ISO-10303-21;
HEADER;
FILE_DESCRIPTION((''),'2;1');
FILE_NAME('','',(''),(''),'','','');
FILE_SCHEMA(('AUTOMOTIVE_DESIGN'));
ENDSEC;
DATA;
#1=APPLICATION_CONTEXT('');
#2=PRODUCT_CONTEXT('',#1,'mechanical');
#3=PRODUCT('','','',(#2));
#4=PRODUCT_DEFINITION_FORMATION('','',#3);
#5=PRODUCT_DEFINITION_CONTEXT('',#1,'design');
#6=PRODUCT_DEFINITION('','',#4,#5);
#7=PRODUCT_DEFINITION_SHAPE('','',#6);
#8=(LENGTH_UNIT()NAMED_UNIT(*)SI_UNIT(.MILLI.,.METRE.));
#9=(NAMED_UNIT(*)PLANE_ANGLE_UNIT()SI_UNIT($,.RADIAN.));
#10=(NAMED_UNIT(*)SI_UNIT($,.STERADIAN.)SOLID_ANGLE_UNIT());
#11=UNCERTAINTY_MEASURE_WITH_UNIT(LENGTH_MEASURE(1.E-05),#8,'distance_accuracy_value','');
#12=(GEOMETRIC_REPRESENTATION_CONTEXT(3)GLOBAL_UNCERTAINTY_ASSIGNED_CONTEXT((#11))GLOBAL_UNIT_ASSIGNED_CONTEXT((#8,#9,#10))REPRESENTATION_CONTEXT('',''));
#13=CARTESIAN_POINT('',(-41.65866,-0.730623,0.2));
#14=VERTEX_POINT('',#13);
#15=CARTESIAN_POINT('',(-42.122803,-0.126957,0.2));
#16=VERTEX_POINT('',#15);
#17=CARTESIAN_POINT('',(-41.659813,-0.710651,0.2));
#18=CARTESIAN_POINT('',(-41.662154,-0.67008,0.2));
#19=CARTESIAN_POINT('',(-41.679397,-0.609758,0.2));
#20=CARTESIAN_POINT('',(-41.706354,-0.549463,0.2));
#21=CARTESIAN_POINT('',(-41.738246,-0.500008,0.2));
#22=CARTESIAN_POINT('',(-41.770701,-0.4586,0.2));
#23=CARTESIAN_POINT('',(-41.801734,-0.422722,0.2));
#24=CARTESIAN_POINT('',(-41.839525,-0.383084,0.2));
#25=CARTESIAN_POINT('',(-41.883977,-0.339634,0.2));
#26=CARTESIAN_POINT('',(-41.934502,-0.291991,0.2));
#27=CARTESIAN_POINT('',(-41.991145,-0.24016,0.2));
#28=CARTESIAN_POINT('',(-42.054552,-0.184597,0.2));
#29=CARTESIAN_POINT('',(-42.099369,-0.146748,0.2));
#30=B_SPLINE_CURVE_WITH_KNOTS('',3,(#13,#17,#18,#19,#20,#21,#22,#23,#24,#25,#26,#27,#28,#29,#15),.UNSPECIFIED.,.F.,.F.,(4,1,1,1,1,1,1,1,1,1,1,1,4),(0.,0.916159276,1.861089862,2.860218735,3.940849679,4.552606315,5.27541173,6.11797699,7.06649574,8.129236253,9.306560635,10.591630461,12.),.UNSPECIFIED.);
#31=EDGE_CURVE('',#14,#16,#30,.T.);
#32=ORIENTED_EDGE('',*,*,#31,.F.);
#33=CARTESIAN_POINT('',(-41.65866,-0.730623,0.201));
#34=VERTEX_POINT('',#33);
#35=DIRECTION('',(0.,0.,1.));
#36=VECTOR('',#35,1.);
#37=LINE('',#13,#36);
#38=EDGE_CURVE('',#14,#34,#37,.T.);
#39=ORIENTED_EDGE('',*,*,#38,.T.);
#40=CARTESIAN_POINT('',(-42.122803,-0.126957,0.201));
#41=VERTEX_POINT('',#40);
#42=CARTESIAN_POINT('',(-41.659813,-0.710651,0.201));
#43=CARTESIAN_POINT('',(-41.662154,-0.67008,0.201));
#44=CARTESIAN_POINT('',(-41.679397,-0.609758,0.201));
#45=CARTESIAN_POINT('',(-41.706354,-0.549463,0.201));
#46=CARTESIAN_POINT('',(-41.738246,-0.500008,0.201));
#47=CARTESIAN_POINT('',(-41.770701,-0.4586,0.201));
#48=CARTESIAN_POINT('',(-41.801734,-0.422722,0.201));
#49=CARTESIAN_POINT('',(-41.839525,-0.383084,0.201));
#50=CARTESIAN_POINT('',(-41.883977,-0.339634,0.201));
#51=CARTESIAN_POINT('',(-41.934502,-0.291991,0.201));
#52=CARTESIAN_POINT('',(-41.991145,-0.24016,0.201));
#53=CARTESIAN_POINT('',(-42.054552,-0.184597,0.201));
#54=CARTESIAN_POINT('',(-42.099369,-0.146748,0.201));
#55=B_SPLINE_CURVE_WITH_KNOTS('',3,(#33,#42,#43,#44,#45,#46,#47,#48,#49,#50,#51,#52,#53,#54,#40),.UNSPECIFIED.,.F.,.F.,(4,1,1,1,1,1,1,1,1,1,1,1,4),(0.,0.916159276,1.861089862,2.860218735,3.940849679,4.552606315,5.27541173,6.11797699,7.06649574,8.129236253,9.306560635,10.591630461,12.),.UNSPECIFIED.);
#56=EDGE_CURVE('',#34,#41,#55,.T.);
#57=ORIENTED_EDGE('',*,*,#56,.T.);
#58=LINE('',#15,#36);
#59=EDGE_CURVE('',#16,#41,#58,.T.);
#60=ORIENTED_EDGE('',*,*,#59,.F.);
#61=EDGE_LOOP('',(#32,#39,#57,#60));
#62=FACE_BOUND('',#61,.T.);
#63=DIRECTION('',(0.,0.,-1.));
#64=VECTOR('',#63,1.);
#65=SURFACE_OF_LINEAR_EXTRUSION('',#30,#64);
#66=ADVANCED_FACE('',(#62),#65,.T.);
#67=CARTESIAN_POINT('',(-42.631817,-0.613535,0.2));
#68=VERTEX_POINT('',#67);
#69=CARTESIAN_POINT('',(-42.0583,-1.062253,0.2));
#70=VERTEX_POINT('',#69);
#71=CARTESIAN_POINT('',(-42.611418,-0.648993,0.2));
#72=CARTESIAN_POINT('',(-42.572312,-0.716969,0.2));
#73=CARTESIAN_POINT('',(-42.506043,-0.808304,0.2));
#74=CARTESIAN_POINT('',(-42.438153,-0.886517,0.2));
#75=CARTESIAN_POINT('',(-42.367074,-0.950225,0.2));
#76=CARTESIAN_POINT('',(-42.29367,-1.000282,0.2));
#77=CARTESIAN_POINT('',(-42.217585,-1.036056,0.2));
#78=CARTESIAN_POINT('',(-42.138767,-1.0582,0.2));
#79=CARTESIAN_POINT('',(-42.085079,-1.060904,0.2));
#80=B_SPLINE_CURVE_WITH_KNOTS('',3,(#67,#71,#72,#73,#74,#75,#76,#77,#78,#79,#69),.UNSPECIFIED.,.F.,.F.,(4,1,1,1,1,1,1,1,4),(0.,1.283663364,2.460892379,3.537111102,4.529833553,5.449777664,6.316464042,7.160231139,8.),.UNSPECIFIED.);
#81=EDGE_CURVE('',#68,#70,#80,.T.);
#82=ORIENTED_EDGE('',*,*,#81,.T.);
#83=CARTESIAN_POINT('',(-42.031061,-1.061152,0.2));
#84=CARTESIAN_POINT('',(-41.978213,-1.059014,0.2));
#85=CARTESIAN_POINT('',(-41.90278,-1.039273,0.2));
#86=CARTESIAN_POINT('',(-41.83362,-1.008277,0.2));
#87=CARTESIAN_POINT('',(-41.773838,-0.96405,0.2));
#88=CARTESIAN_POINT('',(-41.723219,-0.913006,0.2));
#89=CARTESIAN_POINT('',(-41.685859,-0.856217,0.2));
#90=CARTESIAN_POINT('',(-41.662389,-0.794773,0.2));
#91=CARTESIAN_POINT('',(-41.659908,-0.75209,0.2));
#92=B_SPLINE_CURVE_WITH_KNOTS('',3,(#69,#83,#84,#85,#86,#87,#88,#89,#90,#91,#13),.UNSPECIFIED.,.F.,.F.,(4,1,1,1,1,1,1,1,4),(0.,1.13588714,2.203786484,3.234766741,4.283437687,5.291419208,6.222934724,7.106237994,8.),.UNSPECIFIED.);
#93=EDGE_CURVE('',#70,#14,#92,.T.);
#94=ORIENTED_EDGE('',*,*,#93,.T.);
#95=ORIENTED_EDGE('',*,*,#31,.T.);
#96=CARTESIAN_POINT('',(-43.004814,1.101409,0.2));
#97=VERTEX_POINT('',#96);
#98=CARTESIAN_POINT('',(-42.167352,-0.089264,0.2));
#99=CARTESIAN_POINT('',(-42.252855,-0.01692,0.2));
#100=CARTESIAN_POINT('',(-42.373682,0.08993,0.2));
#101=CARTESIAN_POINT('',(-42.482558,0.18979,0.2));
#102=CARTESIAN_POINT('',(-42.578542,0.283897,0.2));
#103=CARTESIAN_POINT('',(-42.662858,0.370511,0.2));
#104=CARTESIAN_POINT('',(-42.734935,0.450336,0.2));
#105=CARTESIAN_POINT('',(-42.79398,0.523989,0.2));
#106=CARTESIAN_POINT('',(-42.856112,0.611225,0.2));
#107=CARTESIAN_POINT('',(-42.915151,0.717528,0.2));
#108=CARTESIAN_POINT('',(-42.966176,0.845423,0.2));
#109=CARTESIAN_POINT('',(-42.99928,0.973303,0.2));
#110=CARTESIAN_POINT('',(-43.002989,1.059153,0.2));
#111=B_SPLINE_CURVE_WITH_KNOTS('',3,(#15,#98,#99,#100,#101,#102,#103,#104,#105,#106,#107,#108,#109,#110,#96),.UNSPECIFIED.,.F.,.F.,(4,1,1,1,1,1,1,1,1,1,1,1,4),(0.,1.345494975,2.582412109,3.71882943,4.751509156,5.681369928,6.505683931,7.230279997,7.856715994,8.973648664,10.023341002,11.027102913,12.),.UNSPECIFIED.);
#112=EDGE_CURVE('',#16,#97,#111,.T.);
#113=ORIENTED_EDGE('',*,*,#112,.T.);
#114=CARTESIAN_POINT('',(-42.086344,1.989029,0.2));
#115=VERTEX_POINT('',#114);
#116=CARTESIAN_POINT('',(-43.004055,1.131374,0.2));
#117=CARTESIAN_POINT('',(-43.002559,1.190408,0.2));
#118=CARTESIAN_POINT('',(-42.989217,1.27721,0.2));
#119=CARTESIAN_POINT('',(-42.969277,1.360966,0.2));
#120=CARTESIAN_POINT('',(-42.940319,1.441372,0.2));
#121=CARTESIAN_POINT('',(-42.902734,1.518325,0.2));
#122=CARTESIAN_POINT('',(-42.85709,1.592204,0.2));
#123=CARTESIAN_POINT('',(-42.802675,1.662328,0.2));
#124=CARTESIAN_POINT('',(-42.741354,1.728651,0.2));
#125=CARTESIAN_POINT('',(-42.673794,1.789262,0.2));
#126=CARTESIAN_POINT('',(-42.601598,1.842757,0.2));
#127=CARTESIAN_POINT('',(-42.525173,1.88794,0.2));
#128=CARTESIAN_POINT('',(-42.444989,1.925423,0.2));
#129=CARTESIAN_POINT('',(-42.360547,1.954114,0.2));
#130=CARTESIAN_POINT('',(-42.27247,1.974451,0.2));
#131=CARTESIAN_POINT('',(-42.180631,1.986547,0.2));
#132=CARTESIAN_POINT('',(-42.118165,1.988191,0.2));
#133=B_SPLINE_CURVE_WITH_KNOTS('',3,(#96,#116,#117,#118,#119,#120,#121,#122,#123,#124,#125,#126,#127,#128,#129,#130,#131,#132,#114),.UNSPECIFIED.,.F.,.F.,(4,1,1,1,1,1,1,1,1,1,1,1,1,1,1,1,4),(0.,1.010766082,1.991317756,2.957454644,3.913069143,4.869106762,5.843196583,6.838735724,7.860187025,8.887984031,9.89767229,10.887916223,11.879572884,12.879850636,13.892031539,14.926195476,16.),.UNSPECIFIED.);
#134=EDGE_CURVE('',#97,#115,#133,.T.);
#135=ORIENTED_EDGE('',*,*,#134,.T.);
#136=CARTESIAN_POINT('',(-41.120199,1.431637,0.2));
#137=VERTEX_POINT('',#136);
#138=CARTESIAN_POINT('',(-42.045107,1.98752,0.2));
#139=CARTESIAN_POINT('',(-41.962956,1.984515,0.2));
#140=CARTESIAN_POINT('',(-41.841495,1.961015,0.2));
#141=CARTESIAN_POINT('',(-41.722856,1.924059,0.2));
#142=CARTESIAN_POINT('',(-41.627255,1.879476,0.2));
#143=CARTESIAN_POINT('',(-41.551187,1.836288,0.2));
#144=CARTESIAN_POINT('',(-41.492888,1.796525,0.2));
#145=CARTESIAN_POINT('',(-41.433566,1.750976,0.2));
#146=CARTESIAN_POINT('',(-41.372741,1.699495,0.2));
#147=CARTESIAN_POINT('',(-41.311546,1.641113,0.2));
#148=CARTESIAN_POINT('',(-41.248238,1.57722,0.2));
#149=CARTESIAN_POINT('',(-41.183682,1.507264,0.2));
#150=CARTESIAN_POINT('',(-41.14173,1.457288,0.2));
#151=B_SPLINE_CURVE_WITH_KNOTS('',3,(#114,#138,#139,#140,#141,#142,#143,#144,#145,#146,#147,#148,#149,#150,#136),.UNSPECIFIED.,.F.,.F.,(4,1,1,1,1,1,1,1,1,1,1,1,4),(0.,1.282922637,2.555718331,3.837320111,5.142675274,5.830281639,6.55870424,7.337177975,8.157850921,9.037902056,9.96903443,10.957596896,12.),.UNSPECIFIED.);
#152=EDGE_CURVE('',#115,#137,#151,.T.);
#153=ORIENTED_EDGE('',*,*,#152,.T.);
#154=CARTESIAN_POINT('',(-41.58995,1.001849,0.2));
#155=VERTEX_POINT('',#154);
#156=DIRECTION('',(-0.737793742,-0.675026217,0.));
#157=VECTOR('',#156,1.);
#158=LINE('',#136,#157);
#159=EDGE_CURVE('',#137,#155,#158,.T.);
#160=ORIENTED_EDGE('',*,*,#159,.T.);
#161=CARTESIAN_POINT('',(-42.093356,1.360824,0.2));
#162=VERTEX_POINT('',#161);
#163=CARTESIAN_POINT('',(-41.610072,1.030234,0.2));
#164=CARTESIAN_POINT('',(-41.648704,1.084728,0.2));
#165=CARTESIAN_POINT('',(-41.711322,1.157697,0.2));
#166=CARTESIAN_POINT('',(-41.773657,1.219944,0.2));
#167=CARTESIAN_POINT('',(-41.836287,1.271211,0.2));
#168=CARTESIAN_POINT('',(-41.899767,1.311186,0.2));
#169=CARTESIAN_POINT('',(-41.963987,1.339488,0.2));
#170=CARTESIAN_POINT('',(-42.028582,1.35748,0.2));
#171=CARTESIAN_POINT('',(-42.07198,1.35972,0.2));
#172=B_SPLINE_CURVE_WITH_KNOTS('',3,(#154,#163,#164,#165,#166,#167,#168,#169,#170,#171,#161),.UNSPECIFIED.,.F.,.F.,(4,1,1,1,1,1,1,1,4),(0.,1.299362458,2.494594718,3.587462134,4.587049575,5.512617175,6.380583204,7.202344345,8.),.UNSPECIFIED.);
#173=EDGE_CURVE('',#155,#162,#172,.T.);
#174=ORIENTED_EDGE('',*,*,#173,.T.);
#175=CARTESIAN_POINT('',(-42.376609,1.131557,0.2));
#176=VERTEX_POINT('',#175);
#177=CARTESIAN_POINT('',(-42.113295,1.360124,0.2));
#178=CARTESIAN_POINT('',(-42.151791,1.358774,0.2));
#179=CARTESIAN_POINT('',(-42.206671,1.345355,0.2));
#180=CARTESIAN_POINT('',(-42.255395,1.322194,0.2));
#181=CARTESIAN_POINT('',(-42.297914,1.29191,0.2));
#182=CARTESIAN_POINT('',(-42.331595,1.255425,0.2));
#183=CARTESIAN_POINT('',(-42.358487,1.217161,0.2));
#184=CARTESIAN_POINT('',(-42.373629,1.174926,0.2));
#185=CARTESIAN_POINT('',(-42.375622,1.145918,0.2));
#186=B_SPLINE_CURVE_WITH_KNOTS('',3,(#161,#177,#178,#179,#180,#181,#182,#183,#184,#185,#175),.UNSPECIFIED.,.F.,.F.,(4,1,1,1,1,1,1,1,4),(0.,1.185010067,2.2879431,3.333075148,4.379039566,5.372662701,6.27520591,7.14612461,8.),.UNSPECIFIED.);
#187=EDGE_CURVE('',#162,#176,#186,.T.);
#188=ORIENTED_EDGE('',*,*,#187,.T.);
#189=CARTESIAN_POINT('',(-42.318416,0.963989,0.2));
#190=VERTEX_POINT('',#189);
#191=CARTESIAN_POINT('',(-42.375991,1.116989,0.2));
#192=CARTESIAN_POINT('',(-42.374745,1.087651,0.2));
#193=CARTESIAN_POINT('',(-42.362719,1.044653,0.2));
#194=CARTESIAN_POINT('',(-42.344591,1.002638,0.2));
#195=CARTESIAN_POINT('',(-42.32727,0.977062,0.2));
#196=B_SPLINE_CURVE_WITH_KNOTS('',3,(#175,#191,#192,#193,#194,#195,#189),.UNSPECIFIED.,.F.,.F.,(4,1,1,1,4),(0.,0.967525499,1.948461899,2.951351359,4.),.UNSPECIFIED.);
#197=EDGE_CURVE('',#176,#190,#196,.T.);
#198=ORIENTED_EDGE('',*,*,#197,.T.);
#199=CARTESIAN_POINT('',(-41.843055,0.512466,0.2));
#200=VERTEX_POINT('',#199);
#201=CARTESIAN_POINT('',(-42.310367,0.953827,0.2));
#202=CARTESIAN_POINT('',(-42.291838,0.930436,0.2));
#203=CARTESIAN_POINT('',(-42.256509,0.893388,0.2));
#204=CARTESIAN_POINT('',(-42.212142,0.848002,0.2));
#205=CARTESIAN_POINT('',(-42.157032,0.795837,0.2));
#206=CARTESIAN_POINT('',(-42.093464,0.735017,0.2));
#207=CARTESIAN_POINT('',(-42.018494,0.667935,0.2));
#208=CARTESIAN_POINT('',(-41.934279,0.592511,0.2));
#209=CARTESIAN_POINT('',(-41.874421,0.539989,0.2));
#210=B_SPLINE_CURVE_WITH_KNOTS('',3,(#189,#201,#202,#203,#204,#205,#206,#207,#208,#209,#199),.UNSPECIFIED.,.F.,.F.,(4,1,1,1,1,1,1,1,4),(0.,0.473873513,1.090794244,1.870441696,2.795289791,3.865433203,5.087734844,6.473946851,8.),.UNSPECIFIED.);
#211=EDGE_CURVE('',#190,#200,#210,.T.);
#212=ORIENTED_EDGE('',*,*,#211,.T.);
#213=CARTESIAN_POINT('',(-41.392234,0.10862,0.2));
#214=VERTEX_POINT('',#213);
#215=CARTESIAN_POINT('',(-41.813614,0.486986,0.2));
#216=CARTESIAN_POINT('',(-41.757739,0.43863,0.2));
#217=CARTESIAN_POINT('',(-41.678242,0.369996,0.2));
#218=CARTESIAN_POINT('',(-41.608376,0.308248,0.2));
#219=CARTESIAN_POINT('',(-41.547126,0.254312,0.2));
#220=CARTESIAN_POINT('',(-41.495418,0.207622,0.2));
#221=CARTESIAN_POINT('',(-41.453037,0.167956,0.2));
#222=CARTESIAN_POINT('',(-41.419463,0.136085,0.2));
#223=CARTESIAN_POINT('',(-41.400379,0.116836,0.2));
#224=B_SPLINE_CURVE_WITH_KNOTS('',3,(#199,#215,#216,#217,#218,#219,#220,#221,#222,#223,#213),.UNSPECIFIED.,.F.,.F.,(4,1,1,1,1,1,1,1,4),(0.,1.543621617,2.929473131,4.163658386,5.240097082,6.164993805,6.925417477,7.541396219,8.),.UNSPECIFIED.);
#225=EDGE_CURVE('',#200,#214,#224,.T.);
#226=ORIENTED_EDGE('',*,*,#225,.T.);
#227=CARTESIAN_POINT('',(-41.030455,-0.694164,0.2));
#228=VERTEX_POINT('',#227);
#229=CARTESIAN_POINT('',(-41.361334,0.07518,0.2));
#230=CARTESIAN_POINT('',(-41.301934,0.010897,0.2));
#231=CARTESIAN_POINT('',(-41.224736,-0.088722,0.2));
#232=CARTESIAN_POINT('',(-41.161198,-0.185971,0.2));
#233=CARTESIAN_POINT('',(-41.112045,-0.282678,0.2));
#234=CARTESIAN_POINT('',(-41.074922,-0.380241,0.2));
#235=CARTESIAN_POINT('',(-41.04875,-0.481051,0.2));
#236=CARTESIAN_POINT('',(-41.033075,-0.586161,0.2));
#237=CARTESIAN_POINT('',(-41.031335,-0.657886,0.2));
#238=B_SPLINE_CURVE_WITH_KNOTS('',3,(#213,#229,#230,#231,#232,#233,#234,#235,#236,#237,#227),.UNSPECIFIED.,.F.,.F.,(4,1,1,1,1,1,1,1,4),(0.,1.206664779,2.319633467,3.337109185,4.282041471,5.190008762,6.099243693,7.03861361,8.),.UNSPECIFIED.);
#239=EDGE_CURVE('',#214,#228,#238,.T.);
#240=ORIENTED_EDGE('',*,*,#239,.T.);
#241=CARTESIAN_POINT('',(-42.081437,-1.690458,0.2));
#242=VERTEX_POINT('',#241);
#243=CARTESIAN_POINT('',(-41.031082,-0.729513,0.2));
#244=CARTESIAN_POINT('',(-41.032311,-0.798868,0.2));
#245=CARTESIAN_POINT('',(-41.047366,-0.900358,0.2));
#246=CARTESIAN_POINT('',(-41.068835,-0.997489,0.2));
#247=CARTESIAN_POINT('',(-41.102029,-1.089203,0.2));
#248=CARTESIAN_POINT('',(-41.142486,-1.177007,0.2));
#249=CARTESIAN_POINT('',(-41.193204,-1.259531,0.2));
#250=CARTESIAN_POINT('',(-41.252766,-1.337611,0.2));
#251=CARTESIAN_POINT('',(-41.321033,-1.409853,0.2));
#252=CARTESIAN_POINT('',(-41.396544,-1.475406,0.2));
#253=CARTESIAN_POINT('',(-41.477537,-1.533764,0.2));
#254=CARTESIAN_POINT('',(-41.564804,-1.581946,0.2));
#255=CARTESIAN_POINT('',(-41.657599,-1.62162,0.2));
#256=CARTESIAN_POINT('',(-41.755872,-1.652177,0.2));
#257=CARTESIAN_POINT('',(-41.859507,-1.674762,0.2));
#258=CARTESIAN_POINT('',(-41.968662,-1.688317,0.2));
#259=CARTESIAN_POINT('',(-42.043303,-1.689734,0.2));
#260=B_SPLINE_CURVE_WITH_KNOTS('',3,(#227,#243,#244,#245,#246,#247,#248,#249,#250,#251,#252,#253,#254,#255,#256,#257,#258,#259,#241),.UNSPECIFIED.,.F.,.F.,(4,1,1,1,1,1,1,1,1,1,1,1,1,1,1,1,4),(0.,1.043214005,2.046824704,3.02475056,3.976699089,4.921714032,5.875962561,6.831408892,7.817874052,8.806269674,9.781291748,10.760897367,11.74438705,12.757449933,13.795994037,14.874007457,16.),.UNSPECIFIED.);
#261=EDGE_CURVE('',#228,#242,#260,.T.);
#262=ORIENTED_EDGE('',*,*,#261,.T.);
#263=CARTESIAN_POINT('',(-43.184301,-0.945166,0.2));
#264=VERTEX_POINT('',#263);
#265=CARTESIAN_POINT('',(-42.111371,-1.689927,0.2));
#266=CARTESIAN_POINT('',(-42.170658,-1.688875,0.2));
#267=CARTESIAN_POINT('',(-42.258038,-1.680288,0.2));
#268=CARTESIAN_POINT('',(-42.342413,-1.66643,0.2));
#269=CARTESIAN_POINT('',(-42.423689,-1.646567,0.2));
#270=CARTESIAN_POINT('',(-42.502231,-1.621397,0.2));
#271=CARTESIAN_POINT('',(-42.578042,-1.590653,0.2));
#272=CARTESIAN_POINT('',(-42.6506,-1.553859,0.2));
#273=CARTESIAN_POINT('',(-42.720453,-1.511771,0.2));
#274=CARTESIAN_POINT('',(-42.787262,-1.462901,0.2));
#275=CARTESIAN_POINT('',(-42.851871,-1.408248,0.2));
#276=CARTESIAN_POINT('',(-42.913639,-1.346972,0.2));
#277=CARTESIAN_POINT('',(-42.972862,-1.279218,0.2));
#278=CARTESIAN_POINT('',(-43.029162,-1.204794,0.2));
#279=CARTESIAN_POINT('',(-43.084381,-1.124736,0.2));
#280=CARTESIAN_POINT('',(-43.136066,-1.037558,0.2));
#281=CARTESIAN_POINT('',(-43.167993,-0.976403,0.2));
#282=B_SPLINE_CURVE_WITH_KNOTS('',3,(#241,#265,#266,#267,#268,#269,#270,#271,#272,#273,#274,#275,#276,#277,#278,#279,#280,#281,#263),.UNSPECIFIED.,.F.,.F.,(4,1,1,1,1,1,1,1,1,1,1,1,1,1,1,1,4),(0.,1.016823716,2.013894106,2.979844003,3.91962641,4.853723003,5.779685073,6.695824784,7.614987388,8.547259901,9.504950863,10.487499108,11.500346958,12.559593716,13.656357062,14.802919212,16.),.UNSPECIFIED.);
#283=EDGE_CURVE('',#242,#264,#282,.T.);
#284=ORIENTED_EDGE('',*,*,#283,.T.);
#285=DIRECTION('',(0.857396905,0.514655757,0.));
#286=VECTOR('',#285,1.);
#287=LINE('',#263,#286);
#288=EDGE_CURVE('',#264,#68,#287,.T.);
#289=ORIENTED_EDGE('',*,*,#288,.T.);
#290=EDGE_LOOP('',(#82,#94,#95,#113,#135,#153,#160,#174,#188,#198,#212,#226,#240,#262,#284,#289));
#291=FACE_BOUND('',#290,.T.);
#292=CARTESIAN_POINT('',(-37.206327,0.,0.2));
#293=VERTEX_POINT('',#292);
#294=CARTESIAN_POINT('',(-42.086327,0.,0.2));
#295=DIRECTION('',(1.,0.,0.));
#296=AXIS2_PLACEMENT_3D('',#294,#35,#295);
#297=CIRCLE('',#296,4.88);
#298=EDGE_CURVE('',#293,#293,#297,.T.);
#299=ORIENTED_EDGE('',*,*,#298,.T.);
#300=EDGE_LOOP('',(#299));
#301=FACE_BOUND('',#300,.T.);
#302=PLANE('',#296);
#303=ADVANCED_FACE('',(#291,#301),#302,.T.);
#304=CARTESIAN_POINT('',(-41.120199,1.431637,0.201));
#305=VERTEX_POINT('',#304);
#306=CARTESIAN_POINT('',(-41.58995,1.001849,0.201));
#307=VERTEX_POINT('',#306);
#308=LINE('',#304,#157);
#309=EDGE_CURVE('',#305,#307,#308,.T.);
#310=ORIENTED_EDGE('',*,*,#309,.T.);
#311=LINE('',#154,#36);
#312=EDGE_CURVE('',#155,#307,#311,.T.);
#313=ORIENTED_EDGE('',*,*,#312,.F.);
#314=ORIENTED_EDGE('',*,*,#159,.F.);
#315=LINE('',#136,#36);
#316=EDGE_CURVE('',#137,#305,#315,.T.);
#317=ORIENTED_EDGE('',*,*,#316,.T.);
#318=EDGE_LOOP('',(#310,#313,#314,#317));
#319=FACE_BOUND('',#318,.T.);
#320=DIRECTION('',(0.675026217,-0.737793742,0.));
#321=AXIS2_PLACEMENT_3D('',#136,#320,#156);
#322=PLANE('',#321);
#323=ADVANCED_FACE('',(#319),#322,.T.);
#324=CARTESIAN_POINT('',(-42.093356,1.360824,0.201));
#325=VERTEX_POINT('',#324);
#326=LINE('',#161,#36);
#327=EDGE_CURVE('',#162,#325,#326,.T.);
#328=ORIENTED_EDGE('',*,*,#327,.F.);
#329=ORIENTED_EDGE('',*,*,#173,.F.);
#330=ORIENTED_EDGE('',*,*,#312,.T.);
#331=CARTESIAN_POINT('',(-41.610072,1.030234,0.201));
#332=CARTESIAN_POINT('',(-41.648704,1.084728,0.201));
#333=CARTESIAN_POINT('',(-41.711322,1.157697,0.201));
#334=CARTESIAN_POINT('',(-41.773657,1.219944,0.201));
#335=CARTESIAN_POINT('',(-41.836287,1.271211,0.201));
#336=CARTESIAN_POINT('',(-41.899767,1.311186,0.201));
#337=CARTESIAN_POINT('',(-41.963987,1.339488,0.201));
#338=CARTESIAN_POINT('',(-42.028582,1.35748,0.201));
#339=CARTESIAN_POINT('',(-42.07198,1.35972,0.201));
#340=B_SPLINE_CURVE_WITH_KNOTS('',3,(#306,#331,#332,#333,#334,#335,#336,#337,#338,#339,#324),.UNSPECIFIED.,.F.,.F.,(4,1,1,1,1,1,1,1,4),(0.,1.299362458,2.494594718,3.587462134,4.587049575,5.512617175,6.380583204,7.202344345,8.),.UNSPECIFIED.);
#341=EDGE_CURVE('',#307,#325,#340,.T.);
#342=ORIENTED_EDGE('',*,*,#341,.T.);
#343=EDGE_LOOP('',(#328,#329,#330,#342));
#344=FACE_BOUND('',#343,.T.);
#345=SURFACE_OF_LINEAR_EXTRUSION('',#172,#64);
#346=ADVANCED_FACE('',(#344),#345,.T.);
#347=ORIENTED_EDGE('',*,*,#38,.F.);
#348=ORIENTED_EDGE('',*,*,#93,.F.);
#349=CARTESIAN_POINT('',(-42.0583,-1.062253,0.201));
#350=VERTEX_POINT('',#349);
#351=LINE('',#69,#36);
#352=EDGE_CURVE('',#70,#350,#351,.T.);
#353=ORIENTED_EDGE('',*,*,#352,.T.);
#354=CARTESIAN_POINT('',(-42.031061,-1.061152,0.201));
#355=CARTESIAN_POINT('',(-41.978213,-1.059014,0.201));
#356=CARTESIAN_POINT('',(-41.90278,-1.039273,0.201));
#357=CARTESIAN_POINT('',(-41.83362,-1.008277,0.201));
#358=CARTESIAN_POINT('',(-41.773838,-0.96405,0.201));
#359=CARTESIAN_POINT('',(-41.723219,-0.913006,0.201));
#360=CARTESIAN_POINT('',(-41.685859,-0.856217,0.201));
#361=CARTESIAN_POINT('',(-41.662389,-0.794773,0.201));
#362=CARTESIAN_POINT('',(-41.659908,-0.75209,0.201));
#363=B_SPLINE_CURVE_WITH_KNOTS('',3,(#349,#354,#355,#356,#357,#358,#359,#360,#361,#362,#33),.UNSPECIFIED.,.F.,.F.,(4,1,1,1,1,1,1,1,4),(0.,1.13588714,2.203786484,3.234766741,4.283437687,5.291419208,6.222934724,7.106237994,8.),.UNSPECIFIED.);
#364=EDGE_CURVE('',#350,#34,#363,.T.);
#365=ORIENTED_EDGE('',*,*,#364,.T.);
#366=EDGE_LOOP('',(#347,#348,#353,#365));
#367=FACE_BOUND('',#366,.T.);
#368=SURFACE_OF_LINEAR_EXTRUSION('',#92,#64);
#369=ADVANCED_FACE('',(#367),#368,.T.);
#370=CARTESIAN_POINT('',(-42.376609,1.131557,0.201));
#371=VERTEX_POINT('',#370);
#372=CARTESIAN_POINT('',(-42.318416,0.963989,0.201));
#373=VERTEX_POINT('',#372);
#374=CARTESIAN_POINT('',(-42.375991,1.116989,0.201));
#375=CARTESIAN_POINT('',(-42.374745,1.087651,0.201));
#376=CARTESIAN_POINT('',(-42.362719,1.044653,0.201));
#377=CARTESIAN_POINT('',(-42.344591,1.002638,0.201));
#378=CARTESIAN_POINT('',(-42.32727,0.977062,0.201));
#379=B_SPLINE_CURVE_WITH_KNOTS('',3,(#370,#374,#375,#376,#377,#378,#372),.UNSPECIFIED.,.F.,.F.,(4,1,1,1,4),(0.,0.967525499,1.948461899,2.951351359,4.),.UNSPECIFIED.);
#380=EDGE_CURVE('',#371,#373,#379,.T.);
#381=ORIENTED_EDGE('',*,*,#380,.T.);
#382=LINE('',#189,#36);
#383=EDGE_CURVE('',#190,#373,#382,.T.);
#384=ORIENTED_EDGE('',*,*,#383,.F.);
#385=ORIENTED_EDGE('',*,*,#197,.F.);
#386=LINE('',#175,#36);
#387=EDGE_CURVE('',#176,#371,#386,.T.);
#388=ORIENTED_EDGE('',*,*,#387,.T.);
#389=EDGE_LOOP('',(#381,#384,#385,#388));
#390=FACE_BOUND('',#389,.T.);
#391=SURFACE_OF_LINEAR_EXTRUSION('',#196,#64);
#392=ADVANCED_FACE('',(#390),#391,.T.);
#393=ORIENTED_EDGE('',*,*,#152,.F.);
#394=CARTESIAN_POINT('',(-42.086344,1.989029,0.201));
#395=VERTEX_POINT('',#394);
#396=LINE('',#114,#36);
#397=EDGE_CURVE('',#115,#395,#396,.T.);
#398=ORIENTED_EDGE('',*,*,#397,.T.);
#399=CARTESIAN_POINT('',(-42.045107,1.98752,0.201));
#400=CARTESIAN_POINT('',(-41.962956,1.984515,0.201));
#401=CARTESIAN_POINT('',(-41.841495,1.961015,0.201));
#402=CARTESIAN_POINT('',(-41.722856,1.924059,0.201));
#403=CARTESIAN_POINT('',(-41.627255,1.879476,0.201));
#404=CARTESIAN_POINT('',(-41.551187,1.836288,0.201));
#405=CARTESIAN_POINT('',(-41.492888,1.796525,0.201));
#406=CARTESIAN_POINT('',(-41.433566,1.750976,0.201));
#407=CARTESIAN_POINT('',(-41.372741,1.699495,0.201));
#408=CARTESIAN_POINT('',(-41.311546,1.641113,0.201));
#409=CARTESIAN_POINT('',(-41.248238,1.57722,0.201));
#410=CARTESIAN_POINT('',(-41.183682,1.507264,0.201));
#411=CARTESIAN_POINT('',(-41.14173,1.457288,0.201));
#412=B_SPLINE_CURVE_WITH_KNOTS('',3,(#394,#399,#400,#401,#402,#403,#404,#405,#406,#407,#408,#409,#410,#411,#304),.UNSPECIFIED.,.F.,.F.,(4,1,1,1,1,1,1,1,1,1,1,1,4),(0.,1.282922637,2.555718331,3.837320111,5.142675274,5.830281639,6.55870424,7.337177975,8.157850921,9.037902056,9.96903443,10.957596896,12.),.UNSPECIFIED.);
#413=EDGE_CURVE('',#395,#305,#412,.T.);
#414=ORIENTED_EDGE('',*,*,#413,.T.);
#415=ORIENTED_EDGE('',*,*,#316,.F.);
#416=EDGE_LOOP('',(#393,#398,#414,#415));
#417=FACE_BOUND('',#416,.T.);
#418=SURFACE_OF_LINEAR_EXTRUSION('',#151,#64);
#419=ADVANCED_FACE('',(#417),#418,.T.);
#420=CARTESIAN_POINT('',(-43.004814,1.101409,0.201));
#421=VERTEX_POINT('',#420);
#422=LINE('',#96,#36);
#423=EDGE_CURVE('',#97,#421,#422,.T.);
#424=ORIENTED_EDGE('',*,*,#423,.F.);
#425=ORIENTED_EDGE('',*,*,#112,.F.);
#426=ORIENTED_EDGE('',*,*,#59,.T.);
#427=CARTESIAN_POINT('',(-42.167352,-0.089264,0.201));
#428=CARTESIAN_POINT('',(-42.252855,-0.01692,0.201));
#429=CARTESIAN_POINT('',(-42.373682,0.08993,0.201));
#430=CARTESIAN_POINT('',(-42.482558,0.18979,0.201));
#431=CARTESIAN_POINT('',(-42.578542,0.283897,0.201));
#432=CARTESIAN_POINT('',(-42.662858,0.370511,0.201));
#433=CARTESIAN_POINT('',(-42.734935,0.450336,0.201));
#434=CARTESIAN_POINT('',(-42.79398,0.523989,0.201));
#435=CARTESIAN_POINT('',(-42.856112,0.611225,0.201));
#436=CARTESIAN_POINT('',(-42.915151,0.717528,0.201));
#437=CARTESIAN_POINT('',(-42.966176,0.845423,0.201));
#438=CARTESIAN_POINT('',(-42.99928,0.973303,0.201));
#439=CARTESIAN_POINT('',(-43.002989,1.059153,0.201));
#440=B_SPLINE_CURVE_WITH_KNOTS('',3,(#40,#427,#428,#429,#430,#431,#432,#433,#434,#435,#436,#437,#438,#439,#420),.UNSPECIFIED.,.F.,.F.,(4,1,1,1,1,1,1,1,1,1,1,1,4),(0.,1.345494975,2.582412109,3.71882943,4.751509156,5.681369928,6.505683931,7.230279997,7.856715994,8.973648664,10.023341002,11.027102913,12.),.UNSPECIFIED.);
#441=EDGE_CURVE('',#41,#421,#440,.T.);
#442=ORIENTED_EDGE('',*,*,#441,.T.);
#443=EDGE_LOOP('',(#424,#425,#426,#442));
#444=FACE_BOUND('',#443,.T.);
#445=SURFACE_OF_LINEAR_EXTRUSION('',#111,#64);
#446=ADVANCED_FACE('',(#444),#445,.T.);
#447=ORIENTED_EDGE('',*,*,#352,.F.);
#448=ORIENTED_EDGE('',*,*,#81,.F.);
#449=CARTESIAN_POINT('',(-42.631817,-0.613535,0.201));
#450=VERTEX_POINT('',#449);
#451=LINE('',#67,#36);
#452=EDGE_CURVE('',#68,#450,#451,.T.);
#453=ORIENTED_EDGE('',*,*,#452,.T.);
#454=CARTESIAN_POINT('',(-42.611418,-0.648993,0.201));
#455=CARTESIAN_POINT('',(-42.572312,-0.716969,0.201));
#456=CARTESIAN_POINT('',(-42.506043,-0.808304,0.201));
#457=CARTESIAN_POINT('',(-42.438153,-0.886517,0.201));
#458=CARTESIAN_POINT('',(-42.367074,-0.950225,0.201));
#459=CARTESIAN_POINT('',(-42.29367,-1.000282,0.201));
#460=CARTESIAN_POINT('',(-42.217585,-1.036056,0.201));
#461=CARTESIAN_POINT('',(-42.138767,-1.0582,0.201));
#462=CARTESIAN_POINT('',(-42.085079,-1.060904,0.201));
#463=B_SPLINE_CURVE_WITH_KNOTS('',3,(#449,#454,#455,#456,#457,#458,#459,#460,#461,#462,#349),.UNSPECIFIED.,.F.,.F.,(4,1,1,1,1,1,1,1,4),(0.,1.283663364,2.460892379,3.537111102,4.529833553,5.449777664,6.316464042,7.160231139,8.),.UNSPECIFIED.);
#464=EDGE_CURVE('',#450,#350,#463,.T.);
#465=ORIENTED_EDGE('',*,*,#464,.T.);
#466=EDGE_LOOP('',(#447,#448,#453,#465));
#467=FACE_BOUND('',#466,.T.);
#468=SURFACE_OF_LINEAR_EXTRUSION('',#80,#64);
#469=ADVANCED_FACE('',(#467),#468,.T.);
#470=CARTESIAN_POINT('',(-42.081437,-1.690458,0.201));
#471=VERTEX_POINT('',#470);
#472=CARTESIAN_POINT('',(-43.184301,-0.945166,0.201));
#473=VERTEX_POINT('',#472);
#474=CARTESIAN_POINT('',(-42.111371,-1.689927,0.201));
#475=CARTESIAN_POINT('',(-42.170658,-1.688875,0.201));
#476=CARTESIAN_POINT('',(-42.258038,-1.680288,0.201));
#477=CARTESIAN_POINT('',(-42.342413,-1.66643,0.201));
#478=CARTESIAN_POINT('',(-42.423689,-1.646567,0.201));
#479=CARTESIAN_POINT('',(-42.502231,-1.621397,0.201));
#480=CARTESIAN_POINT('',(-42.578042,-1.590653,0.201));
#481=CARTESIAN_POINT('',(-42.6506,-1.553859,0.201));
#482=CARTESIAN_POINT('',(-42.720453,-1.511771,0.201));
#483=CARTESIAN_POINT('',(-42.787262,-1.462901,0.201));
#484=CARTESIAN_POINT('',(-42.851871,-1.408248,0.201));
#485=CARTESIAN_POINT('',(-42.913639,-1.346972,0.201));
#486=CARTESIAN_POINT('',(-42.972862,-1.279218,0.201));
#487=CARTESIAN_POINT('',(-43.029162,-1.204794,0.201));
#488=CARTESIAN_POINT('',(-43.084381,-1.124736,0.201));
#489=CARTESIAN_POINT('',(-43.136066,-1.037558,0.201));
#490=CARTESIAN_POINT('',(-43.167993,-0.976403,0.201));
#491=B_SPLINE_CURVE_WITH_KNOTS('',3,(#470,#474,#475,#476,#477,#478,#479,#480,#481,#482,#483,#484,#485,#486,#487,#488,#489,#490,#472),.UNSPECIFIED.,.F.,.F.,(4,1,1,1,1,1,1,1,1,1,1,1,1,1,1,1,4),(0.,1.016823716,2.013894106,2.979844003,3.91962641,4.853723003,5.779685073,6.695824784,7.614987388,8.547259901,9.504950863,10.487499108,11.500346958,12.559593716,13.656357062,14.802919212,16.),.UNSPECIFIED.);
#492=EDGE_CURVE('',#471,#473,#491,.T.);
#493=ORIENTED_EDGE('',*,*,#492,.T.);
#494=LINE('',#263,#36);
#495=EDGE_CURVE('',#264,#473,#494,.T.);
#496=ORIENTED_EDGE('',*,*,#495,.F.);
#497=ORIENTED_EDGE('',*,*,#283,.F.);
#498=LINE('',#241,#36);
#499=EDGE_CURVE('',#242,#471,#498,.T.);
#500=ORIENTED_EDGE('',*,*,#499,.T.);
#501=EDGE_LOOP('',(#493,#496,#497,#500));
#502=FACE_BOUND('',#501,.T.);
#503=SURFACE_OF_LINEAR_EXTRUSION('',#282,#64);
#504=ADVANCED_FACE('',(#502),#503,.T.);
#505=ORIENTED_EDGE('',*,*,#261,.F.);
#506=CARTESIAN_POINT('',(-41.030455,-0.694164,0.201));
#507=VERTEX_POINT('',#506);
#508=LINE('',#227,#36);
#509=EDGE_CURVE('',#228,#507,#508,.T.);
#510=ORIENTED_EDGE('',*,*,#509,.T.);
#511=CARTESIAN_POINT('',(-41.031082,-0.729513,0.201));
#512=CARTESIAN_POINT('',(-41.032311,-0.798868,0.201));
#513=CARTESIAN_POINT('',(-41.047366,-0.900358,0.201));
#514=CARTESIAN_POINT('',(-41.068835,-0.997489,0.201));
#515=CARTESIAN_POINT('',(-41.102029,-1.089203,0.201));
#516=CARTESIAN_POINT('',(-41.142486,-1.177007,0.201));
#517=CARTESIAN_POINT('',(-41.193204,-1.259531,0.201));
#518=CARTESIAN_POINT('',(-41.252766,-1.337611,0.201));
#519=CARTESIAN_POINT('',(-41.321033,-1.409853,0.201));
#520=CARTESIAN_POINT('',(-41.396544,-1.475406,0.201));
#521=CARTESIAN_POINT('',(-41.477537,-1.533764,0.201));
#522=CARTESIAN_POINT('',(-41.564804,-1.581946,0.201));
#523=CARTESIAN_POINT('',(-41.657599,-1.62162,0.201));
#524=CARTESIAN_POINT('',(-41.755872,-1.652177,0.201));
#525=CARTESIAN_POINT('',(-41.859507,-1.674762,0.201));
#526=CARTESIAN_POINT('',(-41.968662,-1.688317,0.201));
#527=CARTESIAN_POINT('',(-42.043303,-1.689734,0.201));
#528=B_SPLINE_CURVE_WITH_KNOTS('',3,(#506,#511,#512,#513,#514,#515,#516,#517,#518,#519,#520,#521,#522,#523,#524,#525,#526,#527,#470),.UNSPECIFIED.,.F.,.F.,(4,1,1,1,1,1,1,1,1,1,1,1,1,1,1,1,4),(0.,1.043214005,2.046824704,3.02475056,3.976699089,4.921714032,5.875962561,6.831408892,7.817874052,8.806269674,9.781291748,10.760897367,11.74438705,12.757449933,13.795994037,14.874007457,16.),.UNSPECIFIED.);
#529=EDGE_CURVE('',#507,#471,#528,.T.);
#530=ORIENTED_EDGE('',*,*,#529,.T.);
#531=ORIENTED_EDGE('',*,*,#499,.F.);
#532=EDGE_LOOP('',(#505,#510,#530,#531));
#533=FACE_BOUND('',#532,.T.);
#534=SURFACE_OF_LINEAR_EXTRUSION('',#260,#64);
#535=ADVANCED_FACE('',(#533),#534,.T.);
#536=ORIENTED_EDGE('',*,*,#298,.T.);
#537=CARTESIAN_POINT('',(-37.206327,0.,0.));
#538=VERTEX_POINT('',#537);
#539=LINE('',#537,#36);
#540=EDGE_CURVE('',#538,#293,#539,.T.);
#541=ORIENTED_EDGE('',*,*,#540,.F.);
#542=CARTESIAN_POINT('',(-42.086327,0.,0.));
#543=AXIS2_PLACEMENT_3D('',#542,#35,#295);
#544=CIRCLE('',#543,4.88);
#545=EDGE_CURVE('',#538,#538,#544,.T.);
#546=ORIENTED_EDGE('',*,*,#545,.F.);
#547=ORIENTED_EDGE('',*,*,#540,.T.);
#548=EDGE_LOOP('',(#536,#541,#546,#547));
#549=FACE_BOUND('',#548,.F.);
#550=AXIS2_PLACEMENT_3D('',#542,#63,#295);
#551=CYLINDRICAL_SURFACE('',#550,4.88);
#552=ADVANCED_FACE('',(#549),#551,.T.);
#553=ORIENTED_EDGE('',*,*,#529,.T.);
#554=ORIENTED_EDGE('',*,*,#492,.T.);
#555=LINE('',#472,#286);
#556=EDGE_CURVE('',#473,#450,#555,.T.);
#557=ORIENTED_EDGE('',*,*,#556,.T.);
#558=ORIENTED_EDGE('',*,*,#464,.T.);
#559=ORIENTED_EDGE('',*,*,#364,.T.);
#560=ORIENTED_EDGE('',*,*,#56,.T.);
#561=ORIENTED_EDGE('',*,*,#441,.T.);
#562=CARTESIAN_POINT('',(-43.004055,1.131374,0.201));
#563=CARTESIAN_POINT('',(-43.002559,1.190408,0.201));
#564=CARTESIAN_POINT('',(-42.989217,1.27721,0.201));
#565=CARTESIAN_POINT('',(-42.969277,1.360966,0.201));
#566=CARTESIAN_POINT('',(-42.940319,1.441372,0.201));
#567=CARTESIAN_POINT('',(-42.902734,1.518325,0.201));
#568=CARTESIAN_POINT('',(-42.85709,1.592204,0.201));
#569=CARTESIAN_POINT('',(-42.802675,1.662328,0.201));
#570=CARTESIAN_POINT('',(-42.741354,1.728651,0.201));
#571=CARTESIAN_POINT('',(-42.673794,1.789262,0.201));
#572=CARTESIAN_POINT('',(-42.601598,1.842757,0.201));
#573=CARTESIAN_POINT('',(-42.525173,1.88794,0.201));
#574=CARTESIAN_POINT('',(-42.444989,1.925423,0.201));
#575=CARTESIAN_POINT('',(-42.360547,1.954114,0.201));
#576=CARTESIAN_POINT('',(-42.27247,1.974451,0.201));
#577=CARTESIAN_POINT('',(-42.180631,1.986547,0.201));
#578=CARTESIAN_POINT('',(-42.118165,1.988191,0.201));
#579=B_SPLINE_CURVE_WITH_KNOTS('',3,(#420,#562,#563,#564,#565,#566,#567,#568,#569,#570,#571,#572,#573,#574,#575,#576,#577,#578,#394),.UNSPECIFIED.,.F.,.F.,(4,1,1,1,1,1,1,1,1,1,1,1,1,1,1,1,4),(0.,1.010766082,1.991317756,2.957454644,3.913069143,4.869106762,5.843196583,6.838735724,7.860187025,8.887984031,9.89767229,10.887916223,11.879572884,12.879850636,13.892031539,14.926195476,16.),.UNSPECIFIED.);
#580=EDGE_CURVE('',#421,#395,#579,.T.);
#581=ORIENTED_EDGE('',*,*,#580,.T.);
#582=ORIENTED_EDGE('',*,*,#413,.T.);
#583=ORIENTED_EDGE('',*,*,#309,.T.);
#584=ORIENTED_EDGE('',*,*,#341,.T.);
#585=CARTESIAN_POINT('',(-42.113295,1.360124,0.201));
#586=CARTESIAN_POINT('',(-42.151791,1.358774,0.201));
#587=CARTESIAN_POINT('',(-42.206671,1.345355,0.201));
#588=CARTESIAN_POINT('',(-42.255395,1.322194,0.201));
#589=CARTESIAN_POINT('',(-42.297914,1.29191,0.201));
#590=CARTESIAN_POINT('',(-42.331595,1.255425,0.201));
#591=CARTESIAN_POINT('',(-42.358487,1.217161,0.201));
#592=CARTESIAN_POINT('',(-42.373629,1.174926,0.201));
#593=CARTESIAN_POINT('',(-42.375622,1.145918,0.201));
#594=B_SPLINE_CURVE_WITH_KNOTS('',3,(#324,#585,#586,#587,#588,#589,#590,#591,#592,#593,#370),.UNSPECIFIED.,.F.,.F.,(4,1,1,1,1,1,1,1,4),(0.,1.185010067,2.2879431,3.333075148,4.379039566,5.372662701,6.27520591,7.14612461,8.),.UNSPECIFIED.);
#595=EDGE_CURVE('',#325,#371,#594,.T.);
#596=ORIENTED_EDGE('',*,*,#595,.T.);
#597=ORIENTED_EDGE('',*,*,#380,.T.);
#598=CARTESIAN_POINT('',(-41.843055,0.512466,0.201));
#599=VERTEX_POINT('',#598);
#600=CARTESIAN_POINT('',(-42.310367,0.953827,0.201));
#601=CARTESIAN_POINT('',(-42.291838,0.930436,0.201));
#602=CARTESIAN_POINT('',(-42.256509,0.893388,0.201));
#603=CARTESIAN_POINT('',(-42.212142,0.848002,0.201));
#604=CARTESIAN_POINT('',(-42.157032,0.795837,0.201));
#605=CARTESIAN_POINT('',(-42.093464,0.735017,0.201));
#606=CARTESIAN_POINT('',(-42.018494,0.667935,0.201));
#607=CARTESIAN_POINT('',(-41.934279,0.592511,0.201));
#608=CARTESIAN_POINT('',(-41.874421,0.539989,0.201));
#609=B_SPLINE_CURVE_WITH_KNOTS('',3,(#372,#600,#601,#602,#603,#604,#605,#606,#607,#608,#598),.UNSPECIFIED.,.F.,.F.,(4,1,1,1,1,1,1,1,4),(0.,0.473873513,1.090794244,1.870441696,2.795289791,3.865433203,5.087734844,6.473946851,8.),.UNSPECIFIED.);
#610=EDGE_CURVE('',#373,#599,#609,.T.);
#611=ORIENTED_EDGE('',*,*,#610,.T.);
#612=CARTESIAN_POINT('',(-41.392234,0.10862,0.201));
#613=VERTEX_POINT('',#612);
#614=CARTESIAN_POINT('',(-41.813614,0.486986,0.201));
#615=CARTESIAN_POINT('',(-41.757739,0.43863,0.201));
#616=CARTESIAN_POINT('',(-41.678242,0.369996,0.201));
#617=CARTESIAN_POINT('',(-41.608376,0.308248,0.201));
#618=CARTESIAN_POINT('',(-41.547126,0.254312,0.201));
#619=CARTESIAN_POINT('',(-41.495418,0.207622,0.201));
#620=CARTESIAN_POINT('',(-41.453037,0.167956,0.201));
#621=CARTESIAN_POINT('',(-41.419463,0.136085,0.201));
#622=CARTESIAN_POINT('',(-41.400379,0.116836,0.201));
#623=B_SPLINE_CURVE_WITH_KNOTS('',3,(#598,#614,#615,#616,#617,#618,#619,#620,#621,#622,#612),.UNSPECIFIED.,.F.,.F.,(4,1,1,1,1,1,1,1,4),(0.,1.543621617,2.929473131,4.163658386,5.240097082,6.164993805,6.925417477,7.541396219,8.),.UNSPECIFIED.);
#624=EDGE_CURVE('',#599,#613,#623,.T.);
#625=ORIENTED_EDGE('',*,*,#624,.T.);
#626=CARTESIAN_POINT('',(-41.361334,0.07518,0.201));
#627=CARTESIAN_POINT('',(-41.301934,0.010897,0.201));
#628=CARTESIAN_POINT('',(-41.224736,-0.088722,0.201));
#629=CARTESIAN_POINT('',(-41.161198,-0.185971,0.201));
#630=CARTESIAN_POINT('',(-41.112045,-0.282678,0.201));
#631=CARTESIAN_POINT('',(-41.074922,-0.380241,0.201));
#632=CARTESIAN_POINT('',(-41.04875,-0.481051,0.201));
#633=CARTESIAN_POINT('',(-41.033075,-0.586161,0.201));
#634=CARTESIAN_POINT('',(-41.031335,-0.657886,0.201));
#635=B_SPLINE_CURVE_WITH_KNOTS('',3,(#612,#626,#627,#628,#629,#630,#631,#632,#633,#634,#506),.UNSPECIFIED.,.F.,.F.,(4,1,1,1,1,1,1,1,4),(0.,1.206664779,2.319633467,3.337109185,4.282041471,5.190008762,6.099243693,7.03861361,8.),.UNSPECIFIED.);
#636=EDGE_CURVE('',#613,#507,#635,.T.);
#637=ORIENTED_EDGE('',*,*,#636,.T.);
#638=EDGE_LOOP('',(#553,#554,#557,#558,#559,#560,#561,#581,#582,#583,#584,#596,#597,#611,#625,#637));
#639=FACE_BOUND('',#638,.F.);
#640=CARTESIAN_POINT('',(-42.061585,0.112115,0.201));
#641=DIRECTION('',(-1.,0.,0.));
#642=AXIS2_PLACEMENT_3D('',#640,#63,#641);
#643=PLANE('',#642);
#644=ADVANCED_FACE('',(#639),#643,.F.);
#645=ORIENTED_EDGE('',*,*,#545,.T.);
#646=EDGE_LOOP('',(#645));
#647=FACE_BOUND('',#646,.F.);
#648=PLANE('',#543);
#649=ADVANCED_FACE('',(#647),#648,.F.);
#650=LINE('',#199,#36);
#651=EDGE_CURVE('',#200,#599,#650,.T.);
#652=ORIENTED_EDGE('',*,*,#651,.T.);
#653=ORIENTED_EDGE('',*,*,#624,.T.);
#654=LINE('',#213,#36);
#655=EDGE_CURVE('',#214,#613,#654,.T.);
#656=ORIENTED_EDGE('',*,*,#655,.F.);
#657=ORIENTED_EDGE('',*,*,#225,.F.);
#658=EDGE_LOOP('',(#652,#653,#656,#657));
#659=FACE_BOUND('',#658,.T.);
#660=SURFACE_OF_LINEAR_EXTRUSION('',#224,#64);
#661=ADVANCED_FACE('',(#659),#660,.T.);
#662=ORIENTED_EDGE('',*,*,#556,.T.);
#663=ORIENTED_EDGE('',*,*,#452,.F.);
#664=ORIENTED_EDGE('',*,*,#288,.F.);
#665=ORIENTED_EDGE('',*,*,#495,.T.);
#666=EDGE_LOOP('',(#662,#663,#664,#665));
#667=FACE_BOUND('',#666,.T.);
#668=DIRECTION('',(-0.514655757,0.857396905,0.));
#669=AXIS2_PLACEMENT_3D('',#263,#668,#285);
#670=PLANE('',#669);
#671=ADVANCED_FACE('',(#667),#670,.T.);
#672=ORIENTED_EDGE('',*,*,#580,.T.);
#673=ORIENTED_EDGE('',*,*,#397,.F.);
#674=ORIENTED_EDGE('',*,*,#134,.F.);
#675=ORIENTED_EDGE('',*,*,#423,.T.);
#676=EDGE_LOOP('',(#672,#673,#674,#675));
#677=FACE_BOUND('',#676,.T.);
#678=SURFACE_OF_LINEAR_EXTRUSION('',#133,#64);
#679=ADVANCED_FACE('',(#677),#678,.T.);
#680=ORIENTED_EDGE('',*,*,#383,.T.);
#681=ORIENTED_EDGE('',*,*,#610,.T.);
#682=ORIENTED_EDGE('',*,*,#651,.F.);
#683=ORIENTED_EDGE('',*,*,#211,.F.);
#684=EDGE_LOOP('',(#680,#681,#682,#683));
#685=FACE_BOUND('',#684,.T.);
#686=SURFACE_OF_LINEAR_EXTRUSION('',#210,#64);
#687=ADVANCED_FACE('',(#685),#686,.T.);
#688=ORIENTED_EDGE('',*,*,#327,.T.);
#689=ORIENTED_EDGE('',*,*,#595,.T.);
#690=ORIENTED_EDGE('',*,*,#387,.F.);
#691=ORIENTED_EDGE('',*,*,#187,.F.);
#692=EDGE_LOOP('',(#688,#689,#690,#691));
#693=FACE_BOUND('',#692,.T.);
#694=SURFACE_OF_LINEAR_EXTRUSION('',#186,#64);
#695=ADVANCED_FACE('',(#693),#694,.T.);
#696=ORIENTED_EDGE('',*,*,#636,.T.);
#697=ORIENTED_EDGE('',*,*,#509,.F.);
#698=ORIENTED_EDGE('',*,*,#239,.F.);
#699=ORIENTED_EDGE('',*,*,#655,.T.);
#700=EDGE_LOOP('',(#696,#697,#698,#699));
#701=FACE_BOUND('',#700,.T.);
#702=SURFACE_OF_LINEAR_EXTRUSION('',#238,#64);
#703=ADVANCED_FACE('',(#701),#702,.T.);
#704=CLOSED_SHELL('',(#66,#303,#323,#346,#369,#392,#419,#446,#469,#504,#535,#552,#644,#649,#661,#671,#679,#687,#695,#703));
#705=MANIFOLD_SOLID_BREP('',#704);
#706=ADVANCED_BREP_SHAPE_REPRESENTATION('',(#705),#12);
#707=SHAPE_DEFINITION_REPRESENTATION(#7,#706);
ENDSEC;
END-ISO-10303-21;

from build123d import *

# Parameters (mm, degrees)
SKETCH1_R           = 4.88
BOSS_EXTRUDE1_DEPTH = 0.2
BOSS_EXTRUDE2_DEPTH = 0.001


with BuildPart() as part:
    # Sketch1 → Boss-Extrude1 (new body)
    with BuildSketch(Plane.XY):
        with Locations((-42.086326732, 0)):
            Circle(SKETCH1_R)
    extrude(amount=BOSS_EXTRUDE1_DEPTH)

    # Sketch2 → Boss-Extrude2 (add)
    with BuildSketch(Plane.XY.offset(0.2)):
        with BuildLine():
            Line((-41.120198615, 1.43163704), (-41.589950217, 1.001849379))
            add(Edge.make_bspline(
                [(-41.589950217, 1.001849379), (-41.610072362, 1.030233756), (-41.648704073, 1.084727801), (-41.711322047, 1.157696611), (-41.773657269, 1.219944437), (-41.836287237, 1.271211235), (-41.899767079, 1.311185521), (-41.963986602, 1.339487758), (-42.02858173, 1.357479758), (-42.071979684, 1.359720195), (-42.093355666, 1.360823738)],
                knots=[0, 0, 0, 0, 1.299362458, 2.494594718, 3.587462134, 4.587049575, 5.512617175, 6.380583204, 7.202344345, 8, 8, 8, 8], degree=3))
            add(Edge.make_bspline(
                [(-42.093355666, 1.360823738), (-42.113294569, 1.360124483), (-42.151791351, 1.358774403), (-42.20667137, 1.345354714), (-42.255394633, 1.322194302), (-42.297913587, 1.291910114), (-42.331594872, 1.255424689), (-42.358486766, 1.21716086), (-42.373629162, 1.174926245), (-42.3756222, 1.145917809), (-42.376608871, 1.131556912)],
                knots=[0, 0, 0, 0, 1.185010067, 2.2879431, 3.333075148, 4.379039566, 5.372662701, 6.27520591, 7.14612461, 8, 8, 8, 8], degree=3))
            add(Edge.make_bspline(
                [(-42.376608871, 1.131556912), (-42.375990574, 1.116988924), (-42.37474541, 1.087651022), (-42.362718816, 1.044652672), (-42.344591305, 1.002638279), (-42.327269728, 0.977062118), (-42.318415762, 0.963988803)],
                knots=[0, 0, 0, 0, 0.967525499, 1.948461899, 2.951351359, 4, 4, 4, 4], degree=3))
            add(Edge.make_bspline(
                [(-42.318415762, 0.963988803), (-42.31036655, 0.953827051), (-42.291838325, 0.930436041), (-42.256508796, 0.893388326), (-42.212142327, 0.848001634), (-42.157031604, 0.795836678), (-42.093464423, 0.735017403), (-42.018494364, 0.667934638), (-41.934279393, 0.592510908), (-41.874421342, 0.539988553), (-41.843055185, 0.512466367)],
                knots=[0, 0, 0, 0, 0.473873513, 1.090794244, 1.870441696, 2.795289791, 3.865433203, 5.087734844, 6.473946851, 8, 8, 8, 8], degree=3))
            add(Edge.make_bspline(
                [(-41.843055185, 0.512466367), (-41.813613535, 0.486986103), (-41.757739399, 0.438629857), (-41.678241599, 0.369995929), (-41.608376273, 0.308247658), (-41.547125643, 0.254311753), (-41.495418209, 0.207622303), (-41.453036591, 0.167956132), (-41.419463171, 0.136085468), (-41.400378648, 0.116835568), (-41.392233871, 0.108620213)],
                knots=[0, 0, 0, 0, 1.543621617, 2.929473131, 4.163658386, 5.240097082, 6.164993805, 6.925417477, 7.541396219, 8, 8, 8, 8], degree=3))
            add(Edge.make_bspline(
                [(-41.392233871, 0.108620213), (-41.361334287, 0.075180245), (-41.301934434, 0.010896882), (-41.224735565, -0.088722113), (-41.161198399, -0.185970564), (-41.112044842, -0.28267836), (-41.074922099, -0.380240801), (-41.048750074, -0.481050601), (-41.033075474, -0.58616116), (-41.031335227, -0.657886284), (-41.030455025, -0.694164242)],
                knots=[0, 0, 0, 0, 1.206664779, 2.319633467, 3.337109185, 4.282041471, 5.190008762, 6.099243693, 7.03861361, 8, 8, 8, 8], degree=3))
            add(Edge.make_bspline(
                [(-41.030455025, -0.694164242), (-41.03108153, -0.729512664), (-41.032310757, -0.798867582), (-41.047366424, -0.900358175), (-41.068834923, -0.997489076), (-41.102028988, -1.089203366), (-41.142485717, -1.177006505), (-41.193204071, -1.2595308), (-41.252765823, -1.337611431), (-41.321032735, -1.409852611), (-41.396544047, -1.475406475), (-41.477537106, -1.533764073), (-41.564803902, -1.581945703), (-41.657598842, -1.621619839), (-41.755872254, -1.652177389), (-41.859507066, -1.674762266), (-41.968661794, -1.688317354), (-42.043303369, -1.689734377), (-42.081436596, -1.690458313)],
                knots=[0, 0, 0, 0, 1.043214005, 2.046824704, 3.02475056, 3.976699089, 4.921714032, 5.875962561, 6.831408892, 7.817874052, 8.806269674, 9.781291748, 10.760897367, 11.74438705, 12.757449933, 13.795994037, 14.874007457, 16, 16, 16, 16], degree=3))
            add(Edge.make_bspline(
                [(-42.081436596, -1.690458313), (-42.111370853, -1.689927259), (-42.170657851, -1.688875468), (-42.258037922, -1.680288472), (-42.342413259, -1.666429973), (-42.42368882, -1.646566604), (-42.502230766, -1.621397021), (-42.578042322, -1.59065334), (-42.650600136, -1.553859045), (-42.720453215, -1.511770773), (-42.787261986, -1.462900746), (-42.851871221, -1.408248094), (-42.913639159, -1.346972236), (-42.972862459, -1.279218087), (-43.029162194, -1.204793783), (-43.084381256, -1.124735821), (-43.136065543, -1.037558433), (-43.167993227, -0.97640279), (-43.184301179, -0.945165845)],
                knots=[0, 0, 0, 0, 1.016823716, 2.013894106, 2.979844003, 3.91962641, 4.853723003, 5.779685073, 6.695824784, 7.614987388, 8.547259901, 9.504950863, 10.487499108, 11.500346958, 12.559593716, 13.656357062, 14.802919212, 16, 16, 16, 16], degree=3))
            Line((-43.184301179, -0.945165845), (-42.631817205, -0.613535236))
            add(Edge.make_bspline(
                [(-42.631817205, -0.613535236), (-42.611418394, -0.64899325), (-42.572312131, -0.716969293), (-42.506042911, -0.808303722), (-42.438153479, -0.886516541), (-42.367074292, -0.950225336), (-42.293669645, -1.000281972), (-42.217584977, -1.036055918), (-42.138766834, -1.058199949), (-42.085079495, -1.060904247), (-42.058299576, -1.062253185)],
                knots=[0, 0, 0, 0, 1.283663364, 2.460892379, 3.537111102, 4.529833553, 5.449777664, 6.316464042, 7.160231139, 8, 8, 8, 8], degree=3))
            add(Edge.make_bspline(
                [(-42.058299576, -1.062253185), (-42.031060565, -1.061151569), (-41.978212917, -1.059014274), (-41.902779662, -1.039272727), (-41.833619597, -1.00827705), (-41.773838148, -0.964050493), (-41.723218986, -0.913006324), (-41.685859139, -0.856217352), (-41.662389431, -0.794773055), (-41.659908114, -0.752089805), (-41.658660153, -0.730622576)],
                knots=[0, 0, 0, 0, 1.13588714, 2.203786484, 3.234766741, 4.283437687, 5.291419208, 6.222934724, 7.106237994, 8, 8, 8, 8], degree=3))
            add(Edge.make_bspline(
                [(-41.658660153, -0.730622576), (-41.659812594, -0.710650812), (-41.662153666, -0.670080087), (-41.679397282, -0.609757943), (-41.706354313, -0.549463231), (-41.738246381, -0.500007878), (-41.770700555, -0.458600251), (-41.801734064, -0.422722416), (-41.83952467, -0.383083689), (-41.883976551, -0.339634207), (-41.934502382, -0.291991475), (-41.991144725, -0.240160157), (-42.054552194, -0.184596825), (-42.099368718, -0.146747633), (-42.122802781, -0.12695671)],
                knots=[0, 0, 0, 0, 0.916159276, 1.861089862, 2.860218735, 3.940849679, 4.552606315, 5.27541173, 6.11797699, 7.06649574, 8.129236253, 9.306560635, 10.591630461, 12, 12, 12, 12], degree=3))
            add(Edge.make_bspline(
                [(-42.122802781, -0.12695671), (-42.167351868, -0.089263911), (-42.252855049, -0.016920021), (-42.373681891, 0.089929627), (-42.482557695, 0.189790414), (-42.578542091, 0.283896837), (-42.662858071, 0.370510968), (-42.734934608, 0.450336322), (-42.79397991, 0.52398864), (-42.856112359, 0.611224883), (-42.915150608, 0.717528239), (-42.966176408, 0.845423499), (-42.999279794, 0.973302532), (-43.002988568, 1.059153471), (-43.004813999, 1.101408674)],
                knots=[0, 0, 0, 0, 1.345494975, 2.582412109, 3.71882943, 4.751509156, 5.681369928, 6.505683931, 7.230279997, 7.856715994, 8.973648664, 10.023341002, 11.027102913, 12, 12, 12, 12], degree=3))
            add(Edge.make_bspline(
                [(-43.004813999, 1.101408674), (-43.004054805, 1.131373797), (-43.00255911, 1.190408307), (-42.989217283, 1.277209952), (-42.969277414, 1.360966246), (-42.940318999, 1.441371608), (-42.902734473, 1.518325328), (-42.857089527, 1.592204125), (-42.80267538, 1.662328036), (-42.74135431, 1.728650574), (-42.67379419, 1.789261826), (-42.601597617, 1.842757329), (-42.525173229, 1.887940409), (-42.444988552, 1.925423055), (-42.360546715, 1.954113639), (-42.272469796, 1.974450955), (-42.180631467, 1.986546942), (-42.118165017, 1.988191251), (-42.086344448, 1.989028867)],
                knots=[0, 0, 0, 0, 1.010766082, 1.991317756, 2.957454644, 3.913069143, 4.869106762, 5.843196583, 6.838735724, 7.860187025, 8.887984031, 9.89767229, 10.887916223, 11.879572884, 12.879850636, 13.892031539, 14.926195476, 16, 16, 16, 16], degree=3))
            add(Edge.make_bspline(
                [(-42.086344448, 1.989028867), (-42.045106566, 1.987520297), (-41.962956318, 1.984515066), (-41.841494807, 1.961015141), (-41.722856281, 1.924059033), (-41.627255134, 1.879475555), (-41.551187086, 1.836287519), (-41.492888033, 1.796525416), (-41.433565608, 1.750975789), (-41.372741413, 1.699495101), (-41.311545656, 1.641113386), (-41.248238248, 1.577220469), (-41.183681831, 1.507264164), (-41.141730396, 1.457287704), (-41.120198615, 1.43163704)],
                knots=[0, 0, 0, 0, 1.282922637, 2.555718331, 3.837320111, 5.142675274, 5.830281639, 6.55870424, 7.337177975, 8.157850921, 9.037902056, 9.96903443, 10.957596896, 12, 12, 12, 12], degree=3))
        make_face()
    extrude(amount=BOSS_EXTRUDE2_DEPTH)


solid = part.part
